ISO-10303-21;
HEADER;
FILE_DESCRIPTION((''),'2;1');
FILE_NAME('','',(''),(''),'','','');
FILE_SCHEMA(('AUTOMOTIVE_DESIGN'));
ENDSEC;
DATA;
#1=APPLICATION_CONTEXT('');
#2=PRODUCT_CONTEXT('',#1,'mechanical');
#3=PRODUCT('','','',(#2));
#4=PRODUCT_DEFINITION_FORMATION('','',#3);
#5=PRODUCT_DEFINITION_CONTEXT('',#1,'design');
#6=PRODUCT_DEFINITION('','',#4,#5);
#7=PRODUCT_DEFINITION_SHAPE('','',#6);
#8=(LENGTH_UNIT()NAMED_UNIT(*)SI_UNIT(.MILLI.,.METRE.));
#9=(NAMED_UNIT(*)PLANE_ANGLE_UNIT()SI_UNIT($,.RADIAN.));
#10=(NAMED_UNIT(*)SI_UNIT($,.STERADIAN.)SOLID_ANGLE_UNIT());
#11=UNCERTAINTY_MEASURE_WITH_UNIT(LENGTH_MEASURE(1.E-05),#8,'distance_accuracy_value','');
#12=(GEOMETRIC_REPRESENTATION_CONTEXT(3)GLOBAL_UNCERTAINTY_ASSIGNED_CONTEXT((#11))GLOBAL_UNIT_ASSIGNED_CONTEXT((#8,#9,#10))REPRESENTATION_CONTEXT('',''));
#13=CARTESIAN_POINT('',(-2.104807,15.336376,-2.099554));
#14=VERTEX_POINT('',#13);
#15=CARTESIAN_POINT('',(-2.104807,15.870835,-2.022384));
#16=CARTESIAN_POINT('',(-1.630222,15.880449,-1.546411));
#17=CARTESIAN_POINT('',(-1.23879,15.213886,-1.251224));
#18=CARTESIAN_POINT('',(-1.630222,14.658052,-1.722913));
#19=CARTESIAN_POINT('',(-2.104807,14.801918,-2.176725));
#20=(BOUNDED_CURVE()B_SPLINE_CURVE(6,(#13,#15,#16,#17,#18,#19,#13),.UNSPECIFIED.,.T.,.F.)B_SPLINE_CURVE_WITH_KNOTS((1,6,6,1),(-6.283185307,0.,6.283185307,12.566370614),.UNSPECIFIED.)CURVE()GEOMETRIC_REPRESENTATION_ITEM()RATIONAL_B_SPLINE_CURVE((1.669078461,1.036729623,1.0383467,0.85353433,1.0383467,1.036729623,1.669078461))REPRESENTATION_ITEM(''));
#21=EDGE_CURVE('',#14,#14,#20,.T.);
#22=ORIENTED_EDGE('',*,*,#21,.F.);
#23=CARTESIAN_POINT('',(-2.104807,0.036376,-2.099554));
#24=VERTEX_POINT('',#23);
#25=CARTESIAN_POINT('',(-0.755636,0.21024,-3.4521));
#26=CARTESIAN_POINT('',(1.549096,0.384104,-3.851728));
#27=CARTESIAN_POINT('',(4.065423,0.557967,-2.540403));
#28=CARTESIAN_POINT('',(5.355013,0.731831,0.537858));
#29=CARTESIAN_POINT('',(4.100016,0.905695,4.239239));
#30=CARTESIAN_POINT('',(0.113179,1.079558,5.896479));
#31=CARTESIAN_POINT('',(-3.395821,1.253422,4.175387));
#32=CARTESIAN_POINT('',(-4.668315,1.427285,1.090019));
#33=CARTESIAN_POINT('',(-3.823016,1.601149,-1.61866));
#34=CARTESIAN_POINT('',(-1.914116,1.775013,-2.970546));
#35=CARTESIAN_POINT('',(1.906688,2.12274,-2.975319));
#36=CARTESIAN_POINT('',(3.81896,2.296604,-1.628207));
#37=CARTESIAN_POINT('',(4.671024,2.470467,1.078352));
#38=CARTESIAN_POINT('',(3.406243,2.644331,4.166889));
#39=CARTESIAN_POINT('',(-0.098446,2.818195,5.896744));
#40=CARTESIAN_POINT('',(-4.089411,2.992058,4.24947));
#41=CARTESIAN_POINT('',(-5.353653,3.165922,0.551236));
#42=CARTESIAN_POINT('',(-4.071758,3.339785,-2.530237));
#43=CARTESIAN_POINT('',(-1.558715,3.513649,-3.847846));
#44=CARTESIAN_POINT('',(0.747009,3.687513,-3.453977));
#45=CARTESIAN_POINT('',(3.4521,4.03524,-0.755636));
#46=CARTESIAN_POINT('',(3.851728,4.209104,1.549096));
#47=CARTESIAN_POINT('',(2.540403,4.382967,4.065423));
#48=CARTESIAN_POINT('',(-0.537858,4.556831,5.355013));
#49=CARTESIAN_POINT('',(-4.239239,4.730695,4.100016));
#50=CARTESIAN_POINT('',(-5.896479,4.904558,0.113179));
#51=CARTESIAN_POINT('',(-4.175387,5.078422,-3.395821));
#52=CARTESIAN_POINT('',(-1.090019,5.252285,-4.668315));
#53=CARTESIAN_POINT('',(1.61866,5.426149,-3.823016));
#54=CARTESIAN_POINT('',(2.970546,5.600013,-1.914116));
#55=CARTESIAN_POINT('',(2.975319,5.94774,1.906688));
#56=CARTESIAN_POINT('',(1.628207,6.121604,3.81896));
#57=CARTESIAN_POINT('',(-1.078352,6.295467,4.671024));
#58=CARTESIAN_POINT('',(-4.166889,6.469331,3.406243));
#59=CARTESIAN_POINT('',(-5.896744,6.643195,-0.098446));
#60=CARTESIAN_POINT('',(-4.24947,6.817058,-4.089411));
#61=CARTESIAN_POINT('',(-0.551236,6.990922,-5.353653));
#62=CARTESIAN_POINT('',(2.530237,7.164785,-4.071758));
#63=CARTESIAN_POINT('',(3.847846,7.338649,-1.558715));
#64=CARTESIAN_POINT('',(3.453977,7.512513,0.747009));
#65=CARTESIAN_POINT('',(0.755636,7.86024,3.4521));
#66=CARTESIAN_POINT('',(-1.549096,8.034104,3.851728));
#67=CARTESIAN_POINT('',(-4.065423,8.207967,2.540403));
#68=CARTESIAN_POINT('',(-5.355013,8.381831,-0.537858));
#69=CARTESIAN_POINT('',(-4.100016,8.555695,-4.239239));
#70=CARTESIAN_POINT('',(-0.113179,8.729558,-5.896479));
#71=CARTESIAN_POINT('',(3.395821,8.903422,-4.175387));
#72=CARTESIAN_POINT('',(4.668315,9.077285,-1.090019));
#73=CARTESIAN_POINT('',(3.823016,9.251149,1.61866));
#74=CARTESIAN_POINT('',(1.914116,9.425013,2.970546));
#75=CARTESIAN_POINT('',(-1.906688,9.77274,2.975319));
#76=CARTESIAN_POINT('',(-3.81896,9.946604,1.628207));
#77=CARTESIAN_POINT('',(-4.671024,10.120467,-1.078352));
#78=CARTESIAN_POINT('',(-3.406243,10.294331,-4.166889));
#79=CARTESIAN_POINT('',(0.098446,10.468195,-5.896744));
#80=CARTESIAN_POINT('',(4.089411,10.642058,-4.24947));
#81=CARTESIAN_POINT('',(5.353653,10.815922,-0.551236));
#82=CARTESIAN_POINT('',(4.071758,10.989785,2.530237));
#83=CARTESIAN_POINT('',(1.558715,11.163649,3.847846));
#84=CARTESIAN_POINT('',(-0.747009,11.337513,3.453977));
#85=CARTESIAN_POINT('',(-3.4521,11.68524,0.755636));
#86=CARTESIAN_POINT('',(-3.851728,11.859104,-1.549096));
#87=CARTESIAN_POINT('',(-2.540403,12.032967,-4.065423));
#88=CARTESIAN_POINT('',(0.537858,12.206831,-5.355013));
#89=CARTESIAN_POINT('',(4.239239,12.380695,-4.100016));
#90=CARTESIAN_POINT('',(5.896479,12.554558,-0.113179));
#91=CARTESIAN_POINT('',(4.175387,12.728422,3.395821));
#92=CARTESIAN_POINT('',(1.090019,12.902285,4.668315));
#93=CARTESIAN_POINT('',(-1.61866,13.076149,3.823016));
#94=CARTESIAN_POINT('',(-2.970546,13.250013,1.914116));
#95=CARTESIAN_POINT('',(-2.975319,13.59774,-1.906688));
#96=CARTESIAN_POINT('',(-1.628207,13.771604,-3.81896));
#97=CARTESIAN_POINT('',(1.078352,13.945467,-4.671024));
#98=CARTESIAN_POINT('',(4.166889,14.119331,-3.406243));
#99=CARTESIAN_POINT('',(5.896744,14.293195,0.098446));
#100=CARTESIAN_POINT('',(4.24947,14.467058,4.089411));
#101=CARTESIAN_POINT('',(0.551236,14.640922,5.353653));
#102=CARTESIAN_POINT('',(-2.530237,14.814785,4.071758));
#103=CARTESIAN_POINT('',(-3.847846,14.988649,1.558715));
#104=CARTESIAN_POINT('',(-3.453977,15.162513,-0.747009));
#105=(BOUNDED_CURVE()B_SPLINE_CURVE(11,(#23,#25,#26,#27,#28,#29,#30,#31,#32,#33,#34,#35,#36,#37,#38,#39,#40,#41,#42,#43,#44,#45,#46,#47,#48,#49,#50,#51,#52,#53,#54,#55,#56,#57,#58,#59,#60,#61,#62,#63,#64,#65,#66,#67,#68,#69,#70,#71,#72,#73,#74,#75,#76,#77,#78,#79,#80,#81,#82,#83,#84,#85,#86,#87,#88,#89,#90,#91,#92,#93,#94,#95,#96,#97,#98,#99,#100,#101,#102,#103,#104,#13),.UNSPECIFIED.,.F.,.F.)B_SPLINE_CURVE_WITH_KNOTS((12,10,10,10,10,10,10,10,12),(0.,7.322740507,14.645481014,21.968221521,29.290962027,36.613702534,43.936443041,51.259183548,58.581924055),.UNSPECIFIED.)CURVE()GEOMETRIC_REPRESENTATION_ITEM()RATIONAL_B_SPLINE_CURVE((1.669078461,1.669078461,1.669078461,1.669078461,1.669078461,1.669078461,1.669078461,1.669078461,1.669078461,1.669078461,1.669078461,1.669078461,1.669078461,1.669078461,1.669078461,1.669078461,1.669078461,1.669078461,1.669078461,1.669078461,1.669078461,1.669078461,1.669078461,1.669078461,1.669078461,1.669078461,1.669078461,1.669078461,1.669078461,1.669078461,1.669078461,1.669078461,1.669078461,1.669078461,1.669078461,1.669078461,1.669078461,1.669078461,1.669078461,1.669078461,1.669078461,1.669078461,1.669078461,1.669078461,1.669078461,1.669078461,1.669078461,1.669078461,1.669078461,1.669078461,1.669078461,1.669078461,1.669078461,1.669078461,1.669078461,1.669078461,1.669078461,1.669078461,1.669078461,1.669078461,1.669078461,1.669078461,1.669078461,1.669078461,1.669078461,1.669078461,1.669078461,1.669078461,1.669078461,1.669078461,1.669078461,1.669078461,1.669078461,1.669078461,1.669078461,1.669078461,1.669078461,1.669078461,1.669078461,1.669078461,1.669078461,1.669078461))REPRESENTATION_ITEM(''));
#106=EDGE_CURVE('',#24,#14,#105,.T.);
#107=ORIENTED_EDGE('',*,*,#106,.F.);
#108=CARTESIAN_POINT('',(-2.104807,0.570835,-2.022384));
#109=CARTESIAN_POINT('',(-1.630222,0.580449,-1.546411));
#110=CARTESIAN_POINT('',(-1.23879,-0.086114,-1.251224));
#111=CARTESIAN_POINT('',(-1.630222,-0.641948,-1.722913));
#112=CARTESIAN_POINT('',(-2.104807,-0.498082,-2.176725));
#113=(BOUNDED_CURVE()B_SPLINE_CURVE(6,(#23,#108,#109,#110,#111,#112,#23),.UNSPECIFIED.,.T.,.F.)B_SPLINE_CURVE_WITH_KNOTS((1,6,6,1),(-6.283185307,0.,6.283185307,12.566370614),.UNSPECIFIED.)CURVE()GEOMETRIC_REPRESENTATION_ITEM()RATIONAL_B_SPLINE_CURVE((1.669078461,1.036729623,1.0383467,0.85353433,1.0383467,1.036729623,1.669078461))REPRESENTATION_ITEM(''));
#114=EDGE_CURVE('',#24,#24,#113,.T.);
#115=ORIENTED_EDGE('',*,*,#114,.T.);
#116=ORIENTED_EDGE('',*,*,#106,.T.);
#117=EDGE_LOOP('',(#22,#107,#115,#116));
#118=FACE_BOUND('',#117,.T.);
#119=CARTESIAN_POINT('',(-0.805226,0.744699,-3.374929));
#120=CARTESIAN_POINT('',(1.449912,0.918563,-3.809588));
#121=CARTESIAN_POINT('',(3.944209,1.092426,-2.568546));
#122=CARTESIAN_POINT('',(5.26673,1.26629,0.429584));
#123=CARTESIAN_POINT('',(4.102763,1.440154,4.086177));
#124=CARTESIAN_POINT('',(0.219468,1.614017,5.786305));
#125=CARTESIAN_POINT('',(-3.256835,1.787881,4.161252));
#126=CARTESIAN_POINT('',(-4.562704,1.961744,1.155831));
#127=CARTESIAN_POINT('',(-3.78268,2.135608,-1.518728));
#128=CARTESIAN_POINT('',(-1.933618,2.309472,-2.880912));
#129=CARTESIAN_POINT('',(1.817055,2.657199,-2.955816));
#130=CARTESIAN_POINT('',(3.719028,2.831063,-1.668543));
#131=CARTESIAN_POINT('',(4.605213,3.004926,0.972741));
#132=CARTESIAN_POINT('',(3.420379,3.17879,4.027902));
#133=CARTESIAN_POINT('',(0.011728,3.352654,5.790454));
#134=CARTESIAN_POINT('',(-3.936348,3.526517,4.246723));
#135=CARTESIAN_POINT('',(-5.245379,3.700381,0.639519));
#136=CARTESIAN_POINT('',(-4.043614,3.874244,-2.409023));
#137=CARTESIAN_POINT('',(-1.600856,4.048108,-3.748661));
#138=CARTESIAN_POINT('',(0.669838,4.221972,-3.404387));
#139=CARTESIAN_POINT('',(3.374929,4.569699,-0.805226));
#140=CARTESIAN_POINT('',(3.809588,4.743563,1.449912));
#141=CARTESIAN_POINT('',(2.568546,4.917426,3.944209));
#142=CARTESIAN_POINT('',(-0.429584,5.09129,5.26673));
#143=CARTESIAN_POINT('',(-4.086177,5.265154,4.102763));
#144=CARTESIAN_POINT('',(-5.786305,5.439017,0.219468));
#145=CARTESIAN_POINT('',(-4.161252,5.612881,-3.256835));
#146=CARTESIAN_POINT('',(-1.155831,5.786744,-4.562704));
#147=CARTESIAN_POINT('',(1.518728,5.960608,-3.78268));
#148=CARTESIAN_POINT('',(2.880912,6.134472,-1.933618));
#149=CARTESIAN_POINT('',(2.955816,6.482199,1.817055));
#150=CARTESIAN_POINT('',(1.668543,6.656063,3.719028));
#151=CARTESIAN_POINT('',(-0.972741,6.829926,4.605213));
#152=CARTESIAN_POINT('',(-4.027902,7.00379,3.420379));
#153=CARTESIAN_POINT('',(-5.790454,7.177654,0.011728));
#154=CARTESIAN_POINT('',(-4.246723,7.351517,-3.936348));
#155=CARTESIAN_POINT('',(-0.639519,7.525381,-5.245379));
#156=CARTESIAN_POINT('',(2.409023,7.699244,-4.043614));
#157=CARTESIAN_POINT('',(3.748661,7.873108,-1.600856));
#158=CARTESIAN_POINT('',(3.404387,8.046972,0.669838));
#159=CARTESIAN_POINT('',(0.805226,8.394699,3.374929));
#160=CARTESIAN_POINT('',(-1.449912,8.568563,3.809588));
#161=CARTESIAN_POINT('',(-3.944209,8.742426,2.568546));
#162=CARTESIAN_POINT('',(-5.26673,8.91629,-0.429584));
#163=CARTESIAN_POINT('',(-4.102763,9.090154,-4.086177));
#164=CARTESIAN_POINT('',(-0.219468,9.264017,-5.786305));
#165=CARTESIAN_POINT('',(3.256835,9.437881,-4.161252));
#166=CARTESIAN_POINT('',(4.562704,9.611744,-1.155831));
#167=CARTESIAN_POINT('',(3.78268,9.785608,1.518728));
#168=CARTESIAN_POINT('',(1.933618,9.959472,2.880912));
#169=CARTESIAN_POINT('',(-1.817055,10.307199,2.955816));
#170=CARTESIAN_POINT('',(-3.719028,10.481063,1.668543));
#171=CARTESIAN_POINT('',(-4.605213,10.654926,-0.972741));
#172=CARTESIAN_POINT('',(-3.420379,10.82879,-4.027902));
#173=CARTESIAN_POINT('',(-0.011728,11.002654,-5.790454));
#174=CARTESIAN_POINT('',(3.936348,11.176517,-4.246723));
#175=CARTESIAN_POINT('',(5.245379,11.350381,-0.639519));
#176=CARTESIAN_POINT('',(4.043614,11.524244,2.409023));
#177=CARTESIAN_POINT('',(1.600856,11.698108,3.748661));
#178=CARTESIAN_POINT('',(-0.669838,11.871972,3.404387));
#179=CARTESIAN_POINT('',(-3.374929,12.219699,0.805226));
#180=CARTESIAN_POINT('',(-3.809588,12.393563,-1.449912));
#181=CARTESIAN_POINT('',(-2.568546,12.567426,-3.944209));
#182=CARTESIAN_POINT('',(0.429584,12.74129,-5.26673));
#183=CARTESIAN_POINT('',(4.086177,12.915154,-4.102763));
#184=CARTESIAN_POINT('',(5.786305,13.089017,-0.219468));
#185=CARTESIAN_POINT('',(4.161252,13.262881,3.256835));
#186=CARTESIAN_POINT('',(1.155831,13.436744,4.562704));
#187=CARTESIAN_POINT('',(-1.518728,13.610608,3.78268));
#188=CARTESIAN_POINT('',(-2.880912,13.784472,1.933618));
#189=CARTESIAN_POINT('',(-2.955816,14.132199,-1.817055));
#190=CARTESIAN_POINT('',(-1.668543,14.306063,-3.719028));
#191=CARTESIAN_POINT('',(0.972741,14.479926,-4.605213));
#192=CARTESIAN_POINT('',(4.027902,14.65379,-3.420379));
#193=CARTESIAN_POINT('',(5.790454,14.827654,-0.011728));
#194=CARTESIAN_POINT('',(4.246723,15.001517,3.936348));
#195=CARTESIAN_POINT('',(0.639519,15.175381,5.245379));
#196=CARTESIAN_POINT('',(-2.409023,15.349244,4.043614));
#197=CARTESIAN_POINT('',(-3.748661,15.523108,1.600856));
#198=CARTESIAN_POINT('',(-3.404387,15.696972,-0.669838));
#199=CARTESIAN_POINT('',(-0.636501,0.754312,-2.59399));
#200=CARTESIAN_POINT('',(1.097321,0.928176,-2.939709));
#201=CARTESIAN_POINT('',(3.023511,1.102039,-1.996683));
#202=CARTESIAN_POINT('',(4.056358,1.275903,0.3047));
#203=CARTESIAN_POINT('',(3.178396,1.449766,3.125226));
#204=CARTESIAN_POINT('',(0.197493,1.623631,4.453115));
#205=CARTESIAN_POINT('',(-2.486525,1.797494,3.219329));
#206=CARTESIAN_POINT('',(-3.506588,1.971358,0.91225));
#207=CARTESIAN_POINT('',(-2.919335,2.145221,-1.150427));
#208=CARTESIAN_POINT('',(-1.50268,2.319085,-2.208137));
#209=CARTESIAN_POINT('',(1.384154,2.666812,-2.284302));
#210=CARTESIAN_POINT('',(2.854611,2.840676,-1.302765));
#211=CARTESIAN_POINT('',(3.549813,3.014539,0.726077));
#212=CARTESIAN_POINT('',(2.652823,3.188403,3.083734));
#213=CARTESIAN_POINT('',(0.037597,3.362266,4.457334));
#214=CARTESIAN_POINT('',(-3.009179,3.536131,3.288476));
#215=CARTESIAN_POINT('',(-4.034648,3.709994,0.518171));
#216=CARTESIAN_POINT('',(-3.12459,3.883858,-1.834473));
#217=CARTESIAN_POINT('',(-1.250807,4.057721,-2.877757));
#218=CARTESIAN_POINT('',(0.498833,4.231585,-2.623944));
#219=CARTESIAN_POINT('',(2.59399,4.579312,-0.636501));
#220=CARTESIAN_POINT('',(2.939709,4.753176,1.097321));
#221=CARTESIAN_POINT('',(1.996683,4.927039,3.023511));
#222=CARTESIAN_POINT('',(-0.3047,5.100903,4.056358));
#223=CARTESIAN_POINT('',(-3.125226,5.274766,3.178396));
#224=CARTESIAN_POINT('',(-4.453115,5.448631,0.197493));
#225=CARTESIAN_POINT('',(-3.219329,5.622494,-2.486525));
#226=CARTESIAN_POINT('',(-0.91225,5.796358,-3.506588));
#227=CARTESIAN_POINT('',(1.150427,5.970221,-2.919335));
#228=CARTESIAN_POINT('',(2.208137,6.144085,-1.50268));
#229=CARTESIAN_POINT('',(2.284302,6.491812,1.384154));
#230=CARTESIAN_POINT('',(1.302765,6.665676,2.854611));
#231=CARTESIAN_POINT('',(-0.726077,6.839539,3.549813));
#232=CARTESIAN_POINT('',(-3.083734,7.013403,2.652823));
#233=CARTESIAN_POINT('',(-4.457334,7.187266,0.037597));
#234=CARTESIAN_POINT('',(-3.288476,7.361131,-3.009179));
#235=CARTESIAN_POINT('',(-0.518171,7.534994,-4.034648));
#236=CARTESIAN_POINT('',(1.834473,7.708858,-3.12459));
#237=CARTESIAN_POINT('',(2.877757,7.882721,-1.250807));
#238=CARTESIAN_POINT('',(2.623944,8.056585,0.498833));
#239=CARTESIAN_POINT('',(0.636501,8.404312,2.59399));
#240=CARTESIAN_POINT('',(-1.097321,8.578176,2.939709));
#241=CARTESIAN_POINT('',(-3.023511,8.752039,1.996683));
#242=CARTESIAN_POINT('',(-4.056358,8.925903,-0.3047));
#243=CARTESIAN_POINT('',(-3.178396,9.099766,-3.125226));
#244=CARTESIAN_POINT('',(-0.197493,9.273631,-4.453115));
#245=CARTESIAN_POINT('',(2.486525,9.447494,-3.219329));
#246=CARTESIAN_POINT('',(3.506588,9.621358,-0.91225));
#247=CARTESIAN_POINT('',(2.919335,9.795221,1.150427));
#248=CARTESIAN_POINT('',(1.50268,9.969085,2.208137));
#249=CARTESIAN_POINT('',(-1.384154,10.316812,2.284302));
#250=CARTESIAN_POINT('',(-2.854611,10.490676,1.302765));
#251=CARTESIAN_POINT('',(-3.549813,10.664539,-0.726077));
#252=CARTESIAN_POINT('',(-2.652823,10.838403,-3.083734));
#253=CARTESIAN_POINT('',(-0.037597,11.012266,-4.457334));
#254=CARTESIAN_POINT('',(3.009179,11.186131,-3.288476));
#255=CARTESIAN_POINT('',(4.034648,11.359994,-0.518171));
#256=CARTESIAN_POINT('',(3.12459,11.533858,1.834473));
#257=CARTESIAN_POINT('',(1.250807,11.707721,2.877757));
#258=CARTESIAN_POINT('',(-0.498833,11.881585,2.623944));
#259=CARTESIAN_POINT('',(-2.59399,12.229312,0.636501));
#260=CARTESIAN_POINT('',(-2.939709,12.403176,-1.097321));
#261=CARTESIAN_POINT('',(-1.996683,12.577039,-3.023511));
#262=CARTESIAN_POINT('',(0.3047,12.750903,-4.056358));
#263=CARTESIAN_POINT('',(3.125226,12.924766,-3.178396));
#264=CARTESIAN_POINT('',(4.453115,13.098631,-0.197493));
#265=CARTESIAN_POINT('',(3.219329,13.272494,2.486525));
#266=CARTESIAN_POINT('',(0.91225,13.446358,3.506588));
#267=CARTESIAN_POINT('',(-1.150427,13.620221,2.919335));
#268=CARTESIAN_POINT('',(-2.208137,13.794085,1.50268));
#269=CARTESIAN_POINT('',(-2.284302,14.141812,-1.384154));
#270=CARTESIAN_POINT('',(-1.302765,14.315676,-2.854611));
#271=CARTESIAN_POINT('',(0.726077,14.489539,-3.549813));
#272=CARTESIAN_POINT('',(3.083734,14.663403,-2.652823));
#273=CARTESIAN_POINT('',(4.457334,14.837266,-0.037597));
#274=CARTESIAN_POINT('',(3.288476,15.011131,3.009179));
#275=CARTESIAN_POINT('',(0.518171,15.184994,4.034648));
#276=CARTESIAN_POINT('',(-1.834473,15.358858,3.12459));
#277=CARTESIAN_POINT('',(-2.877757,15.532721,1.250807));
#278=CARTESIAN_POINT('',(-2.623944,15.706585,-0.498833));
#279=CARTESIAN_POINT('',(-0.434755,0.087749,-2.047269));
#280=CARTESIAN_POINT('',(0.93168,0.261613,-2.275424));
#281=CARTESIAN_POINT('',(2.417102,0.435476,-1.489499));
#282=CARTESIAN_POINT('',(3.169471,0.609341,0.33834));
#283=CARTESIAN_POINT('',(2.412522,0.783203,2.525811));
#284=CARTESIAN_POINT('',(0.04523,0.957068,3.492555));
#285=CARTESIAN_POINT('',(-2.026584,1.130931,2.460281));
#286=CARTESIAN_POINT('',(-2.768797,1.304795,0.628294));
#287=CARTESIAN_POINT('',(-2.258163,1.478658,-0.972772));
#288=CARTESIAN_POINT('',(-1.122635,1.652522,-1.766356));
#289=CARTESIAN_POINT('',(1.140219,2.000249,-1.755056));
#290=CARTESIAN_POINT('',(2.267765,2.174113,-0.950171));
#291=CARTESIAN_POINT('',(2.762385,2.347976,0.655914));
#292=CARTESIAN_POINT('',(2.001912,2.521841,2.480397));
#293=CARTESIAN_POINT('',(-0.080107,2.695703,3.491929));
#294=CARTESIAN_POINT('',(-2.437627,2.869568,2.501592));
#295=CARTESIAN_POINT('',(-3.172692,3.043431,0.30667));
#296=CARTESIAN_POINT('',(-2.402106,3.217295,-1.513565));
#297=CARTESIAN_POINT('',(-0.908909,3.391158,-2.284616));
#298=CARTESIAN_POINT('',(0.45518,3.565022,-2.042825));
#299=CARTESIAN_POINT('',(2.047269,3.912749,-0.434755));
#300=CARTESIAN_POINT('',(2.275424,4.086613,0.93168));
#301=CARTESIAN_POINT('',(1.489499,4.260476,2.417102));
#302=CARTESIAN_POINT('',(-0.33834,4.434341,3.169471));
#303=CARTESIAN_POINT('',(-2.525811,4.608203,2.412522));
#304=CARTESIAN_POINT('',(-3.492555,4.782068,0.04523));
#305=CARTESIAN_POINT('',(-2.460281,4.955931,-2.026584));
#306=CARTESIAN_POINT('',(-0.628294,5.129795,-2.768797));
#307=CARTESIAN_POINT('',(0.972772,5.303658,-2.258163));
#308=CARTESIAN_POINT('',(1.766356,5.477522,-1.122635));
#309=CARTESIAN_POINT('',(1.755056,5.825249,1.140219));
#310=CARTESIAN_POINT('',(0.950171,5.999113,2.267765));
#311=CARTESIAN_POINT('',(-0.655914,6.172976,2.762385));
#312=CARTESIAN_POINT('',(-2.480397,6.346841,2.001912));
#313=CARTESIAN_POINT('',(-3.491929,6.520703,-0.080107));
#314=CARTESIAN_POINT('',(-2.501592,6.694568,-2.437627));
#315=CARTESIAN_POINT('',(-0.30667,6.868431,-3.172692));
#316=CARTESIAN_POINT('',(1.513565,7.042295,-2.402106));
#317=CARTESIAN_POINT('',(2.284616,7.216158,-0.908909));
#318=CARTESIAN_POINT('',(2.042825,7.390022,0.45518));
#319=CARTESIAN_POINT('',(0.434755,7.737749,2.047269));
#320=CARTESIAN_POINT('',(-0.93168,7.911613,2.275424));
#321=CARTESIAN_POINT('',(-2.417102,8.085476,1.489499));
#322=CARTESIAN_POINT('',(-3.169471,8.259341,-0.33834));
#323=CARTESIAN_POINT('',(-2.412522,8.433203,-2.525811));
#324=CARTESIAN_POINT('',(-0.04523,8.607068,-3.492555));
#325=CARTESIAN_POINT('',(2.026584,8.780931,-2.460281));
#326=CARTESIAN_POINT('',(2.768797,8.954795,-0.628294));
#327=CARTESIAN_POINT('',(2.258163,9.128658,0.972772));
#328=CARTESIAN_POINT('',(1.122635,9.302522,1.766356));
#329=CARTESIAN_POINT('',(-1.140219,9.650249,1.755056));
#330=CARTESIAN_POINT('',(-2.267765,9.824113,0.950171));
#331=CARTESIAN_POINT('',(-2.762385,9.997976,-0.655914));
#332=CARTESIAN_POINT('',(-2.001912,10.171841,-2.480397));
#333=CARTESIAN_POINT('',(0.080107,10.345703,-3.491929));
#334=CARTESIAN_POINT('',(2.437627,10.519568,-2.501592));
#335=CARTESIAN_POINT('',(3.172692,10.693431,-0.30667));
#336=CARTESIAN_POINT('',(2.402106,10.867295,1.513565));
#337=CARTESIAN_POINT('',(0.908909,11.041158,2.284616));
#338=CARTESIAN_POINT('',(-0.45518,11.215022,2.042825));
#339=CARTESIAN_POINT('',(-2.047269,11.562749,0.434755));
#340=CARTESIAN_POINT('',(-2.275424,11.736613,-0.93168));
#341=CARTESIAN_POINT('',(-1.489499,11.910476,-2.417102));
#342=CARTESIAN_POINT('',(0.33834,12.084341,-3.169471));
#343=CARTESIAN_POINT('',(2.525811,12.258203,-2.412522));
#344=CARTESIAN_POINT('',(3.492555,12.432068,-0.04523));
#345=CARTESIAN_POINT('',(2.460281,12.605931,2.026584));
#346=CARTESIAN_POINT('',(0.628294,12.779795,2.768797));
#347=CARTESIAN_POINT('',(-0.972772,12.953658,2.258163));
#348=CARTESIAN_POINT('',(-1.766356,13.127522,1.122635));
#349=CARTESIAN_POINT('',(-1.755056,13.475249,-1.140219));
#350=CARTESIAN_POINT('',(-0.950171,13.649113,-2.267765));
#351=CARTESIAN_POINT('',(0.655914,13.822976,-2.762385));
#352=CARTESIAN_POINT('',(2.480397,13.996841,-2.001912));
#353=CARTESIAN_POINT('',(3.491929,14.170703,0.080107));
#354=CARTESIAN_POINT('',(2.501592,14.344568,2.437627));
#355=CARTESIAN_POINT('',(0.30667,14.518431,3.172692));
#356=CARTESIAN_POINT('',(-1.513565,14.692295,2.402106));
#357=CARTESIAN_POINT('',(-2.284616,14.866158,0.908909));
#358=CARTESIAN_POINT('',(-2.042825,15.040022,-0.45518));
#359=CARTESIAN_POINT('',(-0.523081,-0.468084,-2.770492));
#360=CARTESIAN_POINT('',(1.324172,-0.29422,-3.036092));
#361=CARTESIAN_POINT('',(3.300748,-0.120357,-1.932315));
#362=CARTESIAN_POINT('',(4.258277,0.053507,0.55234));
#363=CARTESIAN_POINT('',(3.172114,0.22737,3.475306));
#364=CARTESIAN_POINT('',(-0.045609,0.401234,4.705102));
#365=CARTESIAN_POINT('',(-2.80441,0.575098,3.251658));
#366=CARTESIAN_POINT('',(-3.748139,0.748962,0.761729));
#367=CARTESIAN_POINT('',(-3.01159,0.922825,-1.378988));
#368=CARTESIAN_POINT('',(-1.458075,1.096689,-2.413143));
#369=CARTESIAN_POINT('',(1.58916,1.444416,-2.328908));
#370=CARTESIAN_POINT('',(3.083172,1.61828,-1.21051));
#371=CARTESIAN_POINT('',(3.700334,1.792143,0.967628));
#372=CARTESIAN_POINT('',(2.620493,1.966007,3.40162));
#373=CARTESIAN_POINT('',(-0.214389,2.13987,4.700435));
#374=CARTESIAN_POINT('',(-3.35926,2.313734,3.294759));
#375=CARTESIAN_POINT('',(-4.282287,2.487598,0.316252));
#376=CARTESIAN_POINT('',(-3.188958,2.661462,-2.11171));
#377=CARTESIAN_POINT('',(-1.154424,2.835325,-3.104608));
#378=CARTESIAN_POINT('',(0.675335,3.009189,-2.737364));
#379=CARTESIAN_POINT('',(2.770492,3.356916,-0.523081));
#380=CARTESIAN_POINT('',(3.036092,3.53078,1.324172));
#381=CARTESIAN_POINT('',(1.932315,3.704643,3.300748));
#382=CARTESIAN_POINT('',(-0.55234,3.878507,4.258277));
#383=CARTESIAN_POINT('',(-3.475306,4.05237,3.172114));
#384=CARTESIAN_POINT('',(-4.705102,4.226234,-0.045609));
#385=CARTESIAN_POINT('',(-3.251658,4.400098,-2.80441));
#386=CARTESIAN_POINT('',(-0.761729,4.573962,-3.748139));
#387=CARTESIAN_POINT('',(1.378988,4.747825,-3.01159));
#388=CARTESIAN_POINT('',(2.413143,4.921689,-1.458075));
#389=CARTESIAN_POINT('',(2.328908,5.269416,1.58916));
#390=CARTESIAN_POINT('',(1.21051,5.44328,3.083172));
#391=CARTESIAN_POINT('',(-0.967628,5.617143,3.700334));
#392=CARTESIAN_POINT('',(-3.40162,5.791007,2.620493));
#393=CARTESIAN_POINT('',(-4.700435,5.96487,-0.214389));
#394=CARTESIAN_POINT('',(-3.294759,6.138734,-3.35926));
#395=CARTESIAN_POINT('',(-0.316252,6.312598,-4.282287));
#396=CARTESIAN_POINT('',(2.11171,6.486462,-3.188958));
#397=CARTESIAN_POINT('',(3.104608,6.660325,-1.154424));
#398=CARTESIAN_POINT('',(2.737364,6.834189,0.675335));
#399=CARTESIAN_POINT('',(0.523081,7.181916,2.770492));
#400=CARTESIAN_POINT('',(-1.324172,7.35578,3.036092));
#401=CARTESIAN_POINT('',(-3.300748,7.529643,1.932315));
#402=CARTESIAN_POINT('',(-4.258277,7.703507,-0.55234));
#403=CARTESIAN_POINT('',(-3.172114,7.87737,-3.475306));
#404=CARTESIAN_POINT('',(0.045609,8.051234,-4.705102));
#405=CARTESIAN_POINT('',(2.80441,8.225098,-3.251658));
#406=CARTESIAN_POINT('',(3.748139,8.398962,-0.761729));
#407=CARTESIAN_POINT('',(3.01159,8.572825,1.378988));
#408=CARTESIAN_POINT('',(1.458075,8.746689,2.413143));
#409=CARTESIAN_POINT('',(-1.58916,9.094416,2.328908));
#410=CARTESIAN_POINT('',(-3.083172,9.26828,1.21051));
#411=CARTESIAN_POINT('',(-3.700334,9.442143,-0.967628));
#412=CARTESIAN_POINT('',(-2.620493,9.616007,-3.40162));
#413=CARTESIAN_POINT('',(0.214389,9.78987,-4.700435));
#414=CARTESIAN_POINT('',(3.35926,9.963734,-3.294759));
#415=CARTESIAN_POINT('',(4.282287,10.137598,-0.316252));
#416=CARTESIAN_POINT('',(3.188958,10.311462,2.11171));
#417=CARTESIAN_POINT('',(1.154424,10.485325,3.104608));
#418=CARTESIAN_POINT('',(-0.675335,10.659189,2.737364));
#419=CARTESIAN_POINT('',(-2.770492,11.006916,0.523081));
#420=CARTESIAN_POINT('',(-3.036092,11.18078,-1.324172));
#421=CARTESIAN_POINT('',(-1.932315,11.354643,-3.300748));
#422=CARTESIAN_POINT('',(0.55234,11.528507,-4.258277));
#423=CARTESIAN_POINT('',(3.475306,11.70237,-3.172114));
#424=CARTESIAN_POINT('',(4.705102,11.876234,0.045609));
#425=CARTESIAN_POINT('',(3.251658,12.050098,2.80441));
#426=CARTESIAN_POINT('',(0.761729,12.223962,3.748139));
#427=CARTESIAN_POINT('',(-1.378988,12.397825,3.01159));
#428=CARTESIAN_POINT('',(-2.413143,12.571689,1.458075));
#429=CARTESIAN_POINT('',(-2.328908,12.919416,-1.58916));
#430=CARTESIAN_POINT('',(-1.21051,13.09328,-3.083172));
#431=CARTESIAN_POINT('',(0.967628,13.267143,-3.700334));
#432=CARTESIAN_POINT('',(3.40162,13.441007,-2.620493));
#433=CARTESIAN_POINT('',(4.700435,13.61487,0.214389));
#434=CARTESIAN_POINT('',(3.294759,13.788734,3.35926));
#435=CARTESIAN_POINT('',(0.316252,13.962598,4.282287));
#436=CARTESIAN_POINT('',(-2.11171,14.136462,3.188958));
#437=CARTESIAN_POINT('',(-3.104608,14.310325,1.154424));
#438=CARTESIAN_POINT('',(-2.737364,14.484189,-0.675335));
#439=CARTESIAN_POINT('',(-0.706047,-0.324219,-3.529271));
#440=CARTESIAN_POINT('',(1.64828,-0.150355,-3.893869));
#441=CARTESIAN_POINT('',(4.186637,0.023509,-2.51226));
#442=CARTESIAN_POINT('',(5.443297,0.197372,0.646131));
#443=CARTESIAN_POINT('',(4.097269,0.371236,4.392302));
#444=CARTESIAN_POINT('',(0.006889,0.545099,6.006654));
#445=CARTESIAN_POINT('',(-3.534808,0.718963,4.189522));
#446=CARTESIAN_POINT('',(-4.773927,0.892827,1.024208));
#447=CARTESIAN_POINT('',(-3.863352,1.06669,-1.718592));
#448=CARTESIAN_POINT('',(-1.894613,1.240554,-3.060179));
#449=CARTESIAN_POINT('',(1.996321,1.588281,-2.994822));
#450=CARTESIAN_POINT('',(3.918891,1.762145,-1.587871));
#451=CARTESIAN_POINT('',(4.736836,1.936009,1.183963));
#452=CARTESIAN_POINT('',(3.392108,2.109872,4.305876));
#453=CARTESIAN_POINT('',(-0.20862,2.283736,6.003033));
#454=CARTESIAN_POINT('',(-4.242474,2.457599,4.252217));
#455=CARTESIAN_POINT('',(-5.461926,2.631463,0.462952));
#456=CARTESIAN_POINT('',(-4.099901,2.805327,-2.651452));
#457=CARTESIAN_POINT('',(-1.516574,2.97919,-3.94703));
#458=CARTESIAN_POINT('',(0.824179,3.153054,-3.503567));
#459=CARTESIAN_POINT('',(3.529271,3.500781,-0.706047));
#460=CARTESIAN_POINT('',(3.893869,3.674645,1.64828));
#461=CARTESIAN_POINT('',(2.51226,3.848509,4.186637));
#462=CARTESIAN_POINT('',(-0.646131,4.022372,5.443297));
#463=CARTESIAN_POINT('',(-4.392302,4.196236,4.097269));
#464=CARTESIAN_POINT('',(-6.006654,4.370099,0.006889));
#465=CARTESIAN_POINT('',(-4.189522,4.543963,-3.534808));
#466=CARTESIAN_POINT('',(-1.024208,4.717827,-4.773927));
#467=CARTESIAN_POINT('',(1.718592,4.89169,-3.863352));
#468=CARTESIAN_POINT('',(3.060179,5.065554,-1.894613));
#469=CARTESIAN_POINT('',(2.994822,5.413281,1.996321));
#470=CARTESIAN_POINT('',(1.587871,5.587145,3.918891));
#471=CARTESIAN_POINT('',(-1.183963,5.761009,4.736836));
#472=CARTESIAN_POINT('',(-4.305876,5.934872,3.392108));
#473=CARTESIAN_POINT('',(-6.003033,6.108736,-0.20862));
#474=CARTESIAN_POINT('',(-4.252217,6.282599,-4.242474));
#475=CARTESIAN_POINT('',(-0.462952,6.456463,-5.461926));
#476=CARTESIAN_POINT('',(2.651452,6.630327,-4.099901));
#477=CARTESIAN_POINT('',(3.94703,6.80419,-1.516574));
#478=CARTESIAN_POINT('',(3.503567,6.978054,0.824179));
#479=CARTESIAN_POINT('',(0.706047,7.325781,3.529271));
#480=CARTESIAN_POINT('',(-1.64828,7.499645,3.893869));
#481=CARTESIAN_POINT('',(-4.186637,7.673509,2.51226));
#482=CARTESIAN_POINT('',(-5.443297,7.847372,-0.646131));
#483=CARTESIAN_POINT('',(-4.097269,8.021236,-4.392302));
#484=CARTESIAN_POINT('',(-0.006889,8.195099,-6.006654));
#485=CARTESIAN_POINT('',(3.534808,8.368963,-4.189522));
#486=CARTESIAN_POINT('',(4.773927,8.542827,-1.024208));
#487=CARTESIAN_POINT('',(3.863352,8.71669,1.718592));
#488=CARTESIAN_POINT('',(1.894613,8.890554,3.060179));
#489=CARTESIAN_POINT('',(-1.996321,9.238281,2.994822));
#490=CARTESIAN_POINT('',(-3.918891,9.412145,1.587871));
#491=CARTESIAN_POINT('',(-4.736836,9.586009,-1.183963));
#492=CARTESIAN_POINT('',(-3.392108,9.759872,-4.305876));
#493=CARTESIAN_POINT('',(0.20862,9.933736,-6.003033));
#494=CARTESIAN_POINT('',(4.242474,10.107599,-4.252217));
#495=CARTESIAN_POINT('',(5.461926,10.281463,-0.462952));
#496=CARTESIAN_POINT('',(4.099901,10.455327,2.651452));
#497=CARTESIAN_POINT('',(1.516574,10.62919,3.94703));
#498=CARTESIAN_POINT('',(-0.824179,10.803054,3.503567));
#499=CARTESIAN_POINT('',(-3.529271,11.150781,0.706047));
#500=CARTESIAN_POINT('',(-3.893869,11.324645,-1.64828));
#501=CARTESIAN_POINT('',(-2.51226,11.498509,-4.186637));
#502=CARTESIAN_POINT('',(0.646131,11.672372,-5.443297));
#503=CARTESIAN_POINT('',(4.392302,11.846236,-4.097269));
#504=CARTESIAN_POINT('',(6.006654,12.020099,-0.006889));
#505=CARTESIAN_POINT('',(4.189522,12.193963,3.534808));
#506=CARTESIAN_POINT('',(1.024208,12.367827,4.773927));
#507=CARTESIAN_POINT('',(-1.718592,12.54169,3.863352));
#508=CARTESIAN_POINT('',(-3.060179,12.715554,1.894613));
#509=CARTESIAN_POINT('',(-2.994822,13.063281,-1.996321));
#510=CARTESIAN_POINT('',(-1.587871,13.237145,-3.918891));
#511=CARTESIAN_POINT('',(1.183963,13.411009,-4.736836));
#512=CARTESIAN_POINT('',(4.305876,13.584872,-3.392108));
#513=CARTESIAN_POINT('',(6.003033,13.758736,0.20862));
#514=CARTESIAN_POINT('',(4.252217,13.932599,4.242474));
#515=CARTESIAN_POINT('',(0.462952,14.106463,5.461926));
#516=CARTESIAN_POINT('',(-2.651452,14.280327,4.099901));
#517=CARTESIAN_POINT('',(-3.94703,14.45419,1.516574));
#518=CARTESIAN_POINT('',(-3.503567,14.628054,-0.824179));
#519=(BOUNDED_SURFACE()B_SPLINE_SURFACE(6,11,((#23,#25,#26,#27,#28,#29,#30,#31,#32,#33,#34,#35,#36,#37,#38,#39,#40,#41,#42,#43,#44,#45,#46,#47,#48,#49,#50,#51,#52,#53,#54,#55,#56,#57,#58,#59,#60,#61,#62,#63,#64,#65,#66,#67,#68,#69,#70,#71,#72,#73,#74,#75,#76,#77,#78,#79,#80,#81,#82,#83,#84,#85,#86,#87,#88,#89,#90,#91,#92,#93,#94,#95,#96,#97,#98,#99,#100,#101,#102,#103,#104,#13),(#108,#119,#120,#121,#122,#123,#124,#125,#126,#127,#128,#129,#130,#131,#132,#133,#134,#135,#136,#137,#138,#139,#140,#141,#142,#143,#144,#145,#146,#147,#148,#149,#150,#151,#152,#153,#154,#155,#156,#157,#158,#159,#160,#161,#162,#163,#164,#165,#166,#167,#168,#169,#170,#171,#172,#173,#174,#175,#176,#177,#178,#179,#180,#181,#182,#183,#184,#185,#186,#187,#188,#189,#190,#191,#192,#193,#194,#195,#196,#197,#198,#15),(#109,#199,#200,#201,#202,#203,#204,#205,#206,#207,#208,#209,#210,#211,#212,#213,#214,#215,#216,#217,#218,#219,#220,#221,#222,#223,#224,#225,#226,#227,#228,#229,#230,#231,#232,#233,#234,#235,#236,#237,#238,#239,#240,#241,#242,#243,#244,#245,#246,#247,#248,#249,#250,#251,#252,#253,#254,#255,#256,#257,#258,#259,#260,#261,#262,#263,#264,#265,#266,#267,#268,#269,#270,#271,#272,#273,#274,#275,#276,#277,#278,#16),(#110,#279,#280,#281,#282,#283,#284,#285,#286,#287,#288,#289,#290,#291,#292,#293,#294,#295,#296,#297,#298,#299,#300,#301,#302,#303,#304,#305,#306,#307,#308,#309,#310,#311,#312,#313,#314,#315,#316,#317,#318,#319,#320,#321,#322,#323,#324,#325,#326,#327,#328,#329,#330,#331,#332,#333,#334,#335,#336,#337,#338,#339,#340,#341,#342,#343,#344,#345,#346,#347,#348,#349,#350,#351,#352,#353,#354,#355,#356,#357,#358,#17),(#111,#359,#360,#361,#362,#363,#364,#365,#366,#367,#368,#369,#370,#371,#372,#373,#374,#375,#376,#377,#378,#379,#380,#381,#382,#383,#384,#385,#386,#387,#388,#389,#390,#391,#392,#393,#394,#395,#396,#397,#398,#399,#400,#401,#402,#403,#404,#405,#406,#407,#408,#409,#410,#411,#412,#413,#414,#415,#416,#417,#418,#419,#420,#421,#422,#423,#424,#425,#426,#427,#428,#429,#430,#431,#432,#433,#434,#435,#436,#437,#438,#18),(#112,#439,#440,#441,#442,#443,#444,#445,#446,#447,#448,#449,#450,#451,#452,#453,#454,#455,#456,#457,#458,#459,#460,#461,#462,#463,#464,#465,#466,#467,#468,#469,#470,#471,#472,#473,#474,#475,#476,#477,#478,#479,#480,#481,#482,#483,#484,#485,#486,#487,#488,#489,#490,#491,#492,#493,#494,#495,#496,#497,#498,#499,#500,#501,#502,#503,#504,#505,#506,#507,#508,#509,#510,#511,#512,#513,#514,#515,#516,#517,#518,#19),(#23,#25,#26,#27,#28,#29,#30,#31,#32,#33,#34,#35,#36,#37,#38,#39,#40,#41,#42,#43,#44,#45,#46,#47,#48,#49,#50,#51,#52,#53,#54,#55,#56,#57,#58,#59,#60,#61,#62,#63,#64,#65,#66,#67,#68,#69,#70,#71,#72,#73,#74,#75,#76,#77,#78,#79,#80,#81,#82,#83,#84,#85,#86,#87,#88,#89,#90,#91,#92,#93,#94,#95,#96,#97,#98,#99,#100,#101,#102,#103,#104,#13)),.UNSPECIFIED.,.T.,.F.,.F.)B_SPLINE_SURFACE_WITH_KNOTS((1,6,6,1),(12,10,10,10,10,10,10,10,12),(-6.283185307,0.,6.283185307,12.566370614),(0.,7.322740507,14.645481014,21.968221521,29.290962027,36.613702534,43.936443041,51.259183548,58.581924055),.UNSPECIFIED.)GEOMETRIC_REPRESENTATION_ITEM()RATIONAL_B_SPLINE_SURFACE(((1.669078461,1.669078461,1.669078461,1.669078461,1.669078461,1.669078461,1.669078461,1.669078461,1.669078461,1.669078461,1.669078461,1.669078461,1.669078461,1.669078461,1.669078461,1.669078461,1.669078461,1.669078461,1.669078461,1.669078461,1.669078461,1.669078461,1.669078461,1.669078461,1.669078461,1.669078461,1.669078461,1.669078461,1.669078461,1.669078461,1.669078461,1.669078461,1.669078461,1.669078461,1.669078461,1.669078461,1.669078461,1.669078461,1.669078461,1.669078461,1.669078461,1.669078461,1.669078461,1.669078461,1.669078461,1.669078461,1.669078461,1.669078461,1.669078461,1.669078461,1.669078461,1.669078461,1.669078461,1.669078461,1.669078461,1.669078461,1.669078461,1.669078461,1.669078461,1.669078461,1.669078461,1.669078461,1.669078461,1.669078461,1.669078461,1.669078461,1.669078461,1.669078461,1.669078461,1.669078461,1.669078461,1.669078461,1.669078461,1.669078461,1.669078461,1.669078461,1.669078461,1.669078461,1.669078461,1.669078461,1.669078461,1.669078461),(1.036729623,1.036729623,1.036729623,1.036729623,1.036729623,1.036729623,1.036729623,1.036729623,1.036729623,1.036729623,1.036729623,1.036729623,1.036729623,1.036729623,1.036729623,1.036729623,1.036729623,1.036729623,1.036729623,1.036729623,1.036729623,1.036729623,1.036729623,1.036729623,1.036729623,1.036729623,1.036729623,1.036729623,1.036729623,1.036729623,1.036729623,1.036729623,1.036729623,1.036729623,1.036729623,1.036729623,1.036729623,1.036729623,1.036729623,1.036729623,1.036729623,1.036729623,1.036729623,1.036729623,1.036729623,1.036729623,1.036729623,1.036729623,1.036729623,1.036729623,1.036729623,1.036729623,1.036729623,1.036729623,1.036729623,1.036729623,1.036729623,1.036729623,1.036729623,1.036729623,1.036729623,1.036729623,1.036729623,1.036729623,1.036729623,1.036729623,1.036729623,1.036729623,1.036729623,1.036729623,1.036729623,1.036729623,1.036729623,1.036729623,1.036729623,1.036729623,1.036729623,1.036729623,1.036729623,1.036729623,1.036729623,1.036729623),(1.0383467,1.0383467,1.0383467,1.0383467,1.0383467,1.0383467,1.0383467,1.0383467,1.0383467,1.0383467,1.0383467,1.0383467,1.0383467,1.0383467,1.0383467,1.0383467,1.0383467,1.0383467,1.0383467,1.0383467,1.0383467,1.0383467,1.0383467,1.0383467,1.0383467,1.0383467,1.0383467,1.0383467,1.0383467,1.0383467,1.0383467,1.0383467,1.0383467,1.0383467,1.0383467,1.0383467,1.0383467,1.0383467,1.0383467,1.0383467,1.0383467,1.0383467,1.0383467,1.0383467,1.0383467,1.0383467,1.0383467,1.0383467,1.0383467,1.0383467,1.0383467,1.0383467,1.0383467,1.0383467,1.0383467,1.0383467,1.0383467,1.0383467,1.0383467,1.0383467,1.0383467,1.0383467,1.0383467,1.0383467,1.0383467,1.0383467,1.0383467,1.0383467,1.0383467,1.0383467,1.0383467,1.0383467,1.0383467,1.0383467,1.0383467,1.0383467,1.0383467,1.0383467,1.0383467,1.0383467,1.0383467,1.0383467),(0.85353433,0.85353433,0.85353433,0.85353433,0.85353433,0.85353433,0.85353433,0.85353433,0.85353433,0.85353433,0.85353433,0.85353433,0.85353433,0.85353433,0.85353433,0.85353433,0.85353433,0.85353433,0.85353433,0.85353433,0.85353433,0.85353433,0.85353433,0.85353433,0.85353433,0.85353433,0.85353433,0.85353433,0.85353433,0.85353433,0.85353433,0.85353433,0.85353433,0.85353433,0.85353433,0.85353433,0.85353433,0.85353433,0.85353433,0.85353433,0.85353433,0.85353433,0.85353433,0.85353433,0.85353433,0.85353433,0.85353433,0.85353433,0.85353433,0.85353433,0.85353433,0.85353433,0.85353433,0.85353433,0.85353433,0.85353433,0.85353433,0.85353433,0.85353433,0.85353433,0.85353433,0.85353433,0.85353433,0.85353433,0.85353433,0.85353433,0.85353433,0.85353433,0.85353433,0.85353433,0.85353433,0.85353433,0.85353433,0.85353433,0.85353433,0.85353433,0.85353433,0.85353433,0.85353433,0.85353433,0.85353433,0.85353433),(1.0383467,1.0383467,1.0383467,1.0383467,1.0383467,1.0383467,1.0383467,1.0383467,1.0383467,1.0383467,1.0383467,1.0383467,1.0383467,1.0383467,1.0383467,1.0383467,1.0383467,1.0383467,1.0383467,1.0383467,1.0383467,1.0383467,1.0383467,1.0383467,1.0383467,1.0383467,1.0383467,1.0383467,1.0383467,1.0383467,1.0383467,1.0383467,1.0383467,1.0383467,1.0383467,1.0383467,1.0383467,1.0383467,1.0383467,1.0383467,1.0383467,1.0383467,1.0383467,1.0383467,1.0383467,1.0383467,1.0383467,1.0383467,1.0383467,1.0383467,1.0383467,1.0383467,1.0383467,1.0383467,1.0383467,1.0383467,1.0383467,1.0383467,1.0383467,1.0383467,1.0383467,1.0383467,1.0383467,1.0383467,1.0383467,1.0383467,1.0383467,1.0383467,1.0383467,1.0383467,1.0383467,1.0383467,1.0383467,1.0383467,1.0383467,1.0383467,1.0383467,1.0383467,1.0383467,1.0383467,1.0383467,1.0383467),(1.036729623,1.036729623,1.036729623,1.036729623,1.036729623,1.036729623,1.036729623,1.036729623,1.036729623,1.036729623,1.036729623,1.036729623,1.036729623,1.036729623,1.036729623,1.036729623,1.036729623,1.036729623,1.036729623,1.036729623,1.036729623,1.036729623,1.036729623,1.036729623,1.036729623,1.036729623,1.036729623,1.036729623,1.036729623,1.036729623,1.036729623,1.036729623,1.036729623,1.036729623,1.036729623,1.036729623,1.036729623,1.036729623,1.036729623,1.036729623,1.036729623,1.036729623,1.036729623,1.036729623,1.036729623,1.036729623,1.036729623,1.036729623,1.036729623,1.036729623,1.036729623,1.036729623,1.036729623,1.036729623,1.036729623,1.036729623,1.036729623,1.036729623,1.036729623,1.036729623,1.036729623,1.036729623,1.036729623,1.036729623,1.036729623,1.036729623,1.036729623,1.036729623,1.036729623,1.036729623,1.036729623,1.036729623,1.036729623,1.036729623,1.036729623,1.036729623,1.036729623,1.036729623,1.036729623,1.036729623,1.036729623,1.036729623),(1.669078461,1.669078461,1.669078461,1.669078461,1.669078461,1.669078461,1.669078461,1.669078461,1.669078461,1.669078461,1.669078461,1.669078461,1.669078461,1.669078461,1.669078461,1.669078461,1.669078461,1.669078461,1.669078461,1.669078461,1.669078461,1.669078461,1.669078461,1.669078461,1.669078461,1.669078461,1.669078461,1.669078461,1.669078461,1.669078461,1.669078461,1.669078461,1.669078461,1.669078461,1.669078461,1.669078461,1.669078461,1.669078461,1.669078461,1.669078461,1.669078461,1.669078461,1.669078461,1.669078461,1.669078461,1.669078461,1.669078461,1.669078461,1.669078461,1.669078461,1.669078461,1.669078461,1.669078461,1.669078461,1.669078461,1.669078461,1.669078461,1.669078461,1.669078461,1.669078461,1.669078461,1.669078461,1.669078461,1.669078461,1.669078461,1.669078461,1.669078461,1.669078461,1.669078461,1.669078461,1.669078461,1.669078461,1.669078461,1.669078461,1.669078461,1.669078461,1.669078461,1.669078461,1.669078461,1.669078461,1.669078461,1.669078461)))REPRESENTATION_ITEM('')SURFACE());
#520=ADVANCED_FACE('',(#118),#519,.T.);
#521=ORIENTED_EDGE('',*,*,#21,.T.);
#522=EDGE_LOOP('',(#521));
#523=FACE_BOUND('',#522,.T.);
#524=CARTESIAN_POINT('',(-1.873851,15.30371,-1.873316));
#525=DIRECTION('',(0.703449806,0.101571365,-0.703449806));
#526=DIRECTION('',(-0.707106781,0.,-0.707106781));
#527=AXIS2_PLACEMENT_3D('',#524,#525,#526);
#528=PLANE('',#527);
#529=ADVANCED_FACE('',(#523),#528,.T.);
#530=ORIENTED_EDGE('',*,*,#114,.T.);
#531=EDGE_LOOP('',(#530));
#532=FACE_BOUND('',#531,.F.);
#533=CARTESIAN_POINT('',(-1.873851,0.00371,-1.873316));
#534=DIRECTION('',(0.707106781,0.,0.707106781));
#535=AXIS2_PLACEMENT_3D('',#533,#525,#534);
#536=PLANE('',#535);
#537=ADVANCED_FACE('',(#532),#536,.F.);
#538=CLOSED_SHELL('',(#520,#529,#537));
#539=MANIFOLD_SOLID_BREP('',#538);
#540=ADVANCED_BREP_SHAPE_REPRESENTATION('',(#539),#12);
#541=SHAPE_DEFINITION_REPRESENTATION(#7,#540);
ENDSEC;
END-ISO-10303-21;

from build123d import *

# Parameters (mm, degrees)
SWEEP_1_PITCH       = 1.7
SWEEP_1_HEIGHT      = 15.3
SWEEP_1_RADIUS      = 2.65
SWEEP_1_START_ANGLE = -135
SKETCH_2_R          = 0.325


with BuildPart() as part:
    # 扫描1: sweep along a helix
    with BuildLine() as sweep_1_path:
        add(Helix(SWEEP_1_PITCH, SWEEP_1_HEIGHT, SWEEP_1_RADIUS, center=(0, 0, 0), direction=(0, 1, 0), lefthand=True, mode=Mode.PRIVATE).rotate(Axis((0, 0, 0), (0, 1, 0)), SWEEP_1_START_ANGLE))
    # 草图2 → 扫描1 (sweep)
    with BuildSketch(Plane(origin=(-1.87383297, 0, -1.87383297), x_dir=(-0.710744941, 0.10052883, -0.696229548), z_dir=(0.703449806, 0.101571365, -0.703449806))):
        with Locations((-2.5744e-05, 0.003745592)):
            Circle(SKETCH_2_R)
    sweep(path=sweep_1_path.line, is_frenet=True)


solid = part.part
